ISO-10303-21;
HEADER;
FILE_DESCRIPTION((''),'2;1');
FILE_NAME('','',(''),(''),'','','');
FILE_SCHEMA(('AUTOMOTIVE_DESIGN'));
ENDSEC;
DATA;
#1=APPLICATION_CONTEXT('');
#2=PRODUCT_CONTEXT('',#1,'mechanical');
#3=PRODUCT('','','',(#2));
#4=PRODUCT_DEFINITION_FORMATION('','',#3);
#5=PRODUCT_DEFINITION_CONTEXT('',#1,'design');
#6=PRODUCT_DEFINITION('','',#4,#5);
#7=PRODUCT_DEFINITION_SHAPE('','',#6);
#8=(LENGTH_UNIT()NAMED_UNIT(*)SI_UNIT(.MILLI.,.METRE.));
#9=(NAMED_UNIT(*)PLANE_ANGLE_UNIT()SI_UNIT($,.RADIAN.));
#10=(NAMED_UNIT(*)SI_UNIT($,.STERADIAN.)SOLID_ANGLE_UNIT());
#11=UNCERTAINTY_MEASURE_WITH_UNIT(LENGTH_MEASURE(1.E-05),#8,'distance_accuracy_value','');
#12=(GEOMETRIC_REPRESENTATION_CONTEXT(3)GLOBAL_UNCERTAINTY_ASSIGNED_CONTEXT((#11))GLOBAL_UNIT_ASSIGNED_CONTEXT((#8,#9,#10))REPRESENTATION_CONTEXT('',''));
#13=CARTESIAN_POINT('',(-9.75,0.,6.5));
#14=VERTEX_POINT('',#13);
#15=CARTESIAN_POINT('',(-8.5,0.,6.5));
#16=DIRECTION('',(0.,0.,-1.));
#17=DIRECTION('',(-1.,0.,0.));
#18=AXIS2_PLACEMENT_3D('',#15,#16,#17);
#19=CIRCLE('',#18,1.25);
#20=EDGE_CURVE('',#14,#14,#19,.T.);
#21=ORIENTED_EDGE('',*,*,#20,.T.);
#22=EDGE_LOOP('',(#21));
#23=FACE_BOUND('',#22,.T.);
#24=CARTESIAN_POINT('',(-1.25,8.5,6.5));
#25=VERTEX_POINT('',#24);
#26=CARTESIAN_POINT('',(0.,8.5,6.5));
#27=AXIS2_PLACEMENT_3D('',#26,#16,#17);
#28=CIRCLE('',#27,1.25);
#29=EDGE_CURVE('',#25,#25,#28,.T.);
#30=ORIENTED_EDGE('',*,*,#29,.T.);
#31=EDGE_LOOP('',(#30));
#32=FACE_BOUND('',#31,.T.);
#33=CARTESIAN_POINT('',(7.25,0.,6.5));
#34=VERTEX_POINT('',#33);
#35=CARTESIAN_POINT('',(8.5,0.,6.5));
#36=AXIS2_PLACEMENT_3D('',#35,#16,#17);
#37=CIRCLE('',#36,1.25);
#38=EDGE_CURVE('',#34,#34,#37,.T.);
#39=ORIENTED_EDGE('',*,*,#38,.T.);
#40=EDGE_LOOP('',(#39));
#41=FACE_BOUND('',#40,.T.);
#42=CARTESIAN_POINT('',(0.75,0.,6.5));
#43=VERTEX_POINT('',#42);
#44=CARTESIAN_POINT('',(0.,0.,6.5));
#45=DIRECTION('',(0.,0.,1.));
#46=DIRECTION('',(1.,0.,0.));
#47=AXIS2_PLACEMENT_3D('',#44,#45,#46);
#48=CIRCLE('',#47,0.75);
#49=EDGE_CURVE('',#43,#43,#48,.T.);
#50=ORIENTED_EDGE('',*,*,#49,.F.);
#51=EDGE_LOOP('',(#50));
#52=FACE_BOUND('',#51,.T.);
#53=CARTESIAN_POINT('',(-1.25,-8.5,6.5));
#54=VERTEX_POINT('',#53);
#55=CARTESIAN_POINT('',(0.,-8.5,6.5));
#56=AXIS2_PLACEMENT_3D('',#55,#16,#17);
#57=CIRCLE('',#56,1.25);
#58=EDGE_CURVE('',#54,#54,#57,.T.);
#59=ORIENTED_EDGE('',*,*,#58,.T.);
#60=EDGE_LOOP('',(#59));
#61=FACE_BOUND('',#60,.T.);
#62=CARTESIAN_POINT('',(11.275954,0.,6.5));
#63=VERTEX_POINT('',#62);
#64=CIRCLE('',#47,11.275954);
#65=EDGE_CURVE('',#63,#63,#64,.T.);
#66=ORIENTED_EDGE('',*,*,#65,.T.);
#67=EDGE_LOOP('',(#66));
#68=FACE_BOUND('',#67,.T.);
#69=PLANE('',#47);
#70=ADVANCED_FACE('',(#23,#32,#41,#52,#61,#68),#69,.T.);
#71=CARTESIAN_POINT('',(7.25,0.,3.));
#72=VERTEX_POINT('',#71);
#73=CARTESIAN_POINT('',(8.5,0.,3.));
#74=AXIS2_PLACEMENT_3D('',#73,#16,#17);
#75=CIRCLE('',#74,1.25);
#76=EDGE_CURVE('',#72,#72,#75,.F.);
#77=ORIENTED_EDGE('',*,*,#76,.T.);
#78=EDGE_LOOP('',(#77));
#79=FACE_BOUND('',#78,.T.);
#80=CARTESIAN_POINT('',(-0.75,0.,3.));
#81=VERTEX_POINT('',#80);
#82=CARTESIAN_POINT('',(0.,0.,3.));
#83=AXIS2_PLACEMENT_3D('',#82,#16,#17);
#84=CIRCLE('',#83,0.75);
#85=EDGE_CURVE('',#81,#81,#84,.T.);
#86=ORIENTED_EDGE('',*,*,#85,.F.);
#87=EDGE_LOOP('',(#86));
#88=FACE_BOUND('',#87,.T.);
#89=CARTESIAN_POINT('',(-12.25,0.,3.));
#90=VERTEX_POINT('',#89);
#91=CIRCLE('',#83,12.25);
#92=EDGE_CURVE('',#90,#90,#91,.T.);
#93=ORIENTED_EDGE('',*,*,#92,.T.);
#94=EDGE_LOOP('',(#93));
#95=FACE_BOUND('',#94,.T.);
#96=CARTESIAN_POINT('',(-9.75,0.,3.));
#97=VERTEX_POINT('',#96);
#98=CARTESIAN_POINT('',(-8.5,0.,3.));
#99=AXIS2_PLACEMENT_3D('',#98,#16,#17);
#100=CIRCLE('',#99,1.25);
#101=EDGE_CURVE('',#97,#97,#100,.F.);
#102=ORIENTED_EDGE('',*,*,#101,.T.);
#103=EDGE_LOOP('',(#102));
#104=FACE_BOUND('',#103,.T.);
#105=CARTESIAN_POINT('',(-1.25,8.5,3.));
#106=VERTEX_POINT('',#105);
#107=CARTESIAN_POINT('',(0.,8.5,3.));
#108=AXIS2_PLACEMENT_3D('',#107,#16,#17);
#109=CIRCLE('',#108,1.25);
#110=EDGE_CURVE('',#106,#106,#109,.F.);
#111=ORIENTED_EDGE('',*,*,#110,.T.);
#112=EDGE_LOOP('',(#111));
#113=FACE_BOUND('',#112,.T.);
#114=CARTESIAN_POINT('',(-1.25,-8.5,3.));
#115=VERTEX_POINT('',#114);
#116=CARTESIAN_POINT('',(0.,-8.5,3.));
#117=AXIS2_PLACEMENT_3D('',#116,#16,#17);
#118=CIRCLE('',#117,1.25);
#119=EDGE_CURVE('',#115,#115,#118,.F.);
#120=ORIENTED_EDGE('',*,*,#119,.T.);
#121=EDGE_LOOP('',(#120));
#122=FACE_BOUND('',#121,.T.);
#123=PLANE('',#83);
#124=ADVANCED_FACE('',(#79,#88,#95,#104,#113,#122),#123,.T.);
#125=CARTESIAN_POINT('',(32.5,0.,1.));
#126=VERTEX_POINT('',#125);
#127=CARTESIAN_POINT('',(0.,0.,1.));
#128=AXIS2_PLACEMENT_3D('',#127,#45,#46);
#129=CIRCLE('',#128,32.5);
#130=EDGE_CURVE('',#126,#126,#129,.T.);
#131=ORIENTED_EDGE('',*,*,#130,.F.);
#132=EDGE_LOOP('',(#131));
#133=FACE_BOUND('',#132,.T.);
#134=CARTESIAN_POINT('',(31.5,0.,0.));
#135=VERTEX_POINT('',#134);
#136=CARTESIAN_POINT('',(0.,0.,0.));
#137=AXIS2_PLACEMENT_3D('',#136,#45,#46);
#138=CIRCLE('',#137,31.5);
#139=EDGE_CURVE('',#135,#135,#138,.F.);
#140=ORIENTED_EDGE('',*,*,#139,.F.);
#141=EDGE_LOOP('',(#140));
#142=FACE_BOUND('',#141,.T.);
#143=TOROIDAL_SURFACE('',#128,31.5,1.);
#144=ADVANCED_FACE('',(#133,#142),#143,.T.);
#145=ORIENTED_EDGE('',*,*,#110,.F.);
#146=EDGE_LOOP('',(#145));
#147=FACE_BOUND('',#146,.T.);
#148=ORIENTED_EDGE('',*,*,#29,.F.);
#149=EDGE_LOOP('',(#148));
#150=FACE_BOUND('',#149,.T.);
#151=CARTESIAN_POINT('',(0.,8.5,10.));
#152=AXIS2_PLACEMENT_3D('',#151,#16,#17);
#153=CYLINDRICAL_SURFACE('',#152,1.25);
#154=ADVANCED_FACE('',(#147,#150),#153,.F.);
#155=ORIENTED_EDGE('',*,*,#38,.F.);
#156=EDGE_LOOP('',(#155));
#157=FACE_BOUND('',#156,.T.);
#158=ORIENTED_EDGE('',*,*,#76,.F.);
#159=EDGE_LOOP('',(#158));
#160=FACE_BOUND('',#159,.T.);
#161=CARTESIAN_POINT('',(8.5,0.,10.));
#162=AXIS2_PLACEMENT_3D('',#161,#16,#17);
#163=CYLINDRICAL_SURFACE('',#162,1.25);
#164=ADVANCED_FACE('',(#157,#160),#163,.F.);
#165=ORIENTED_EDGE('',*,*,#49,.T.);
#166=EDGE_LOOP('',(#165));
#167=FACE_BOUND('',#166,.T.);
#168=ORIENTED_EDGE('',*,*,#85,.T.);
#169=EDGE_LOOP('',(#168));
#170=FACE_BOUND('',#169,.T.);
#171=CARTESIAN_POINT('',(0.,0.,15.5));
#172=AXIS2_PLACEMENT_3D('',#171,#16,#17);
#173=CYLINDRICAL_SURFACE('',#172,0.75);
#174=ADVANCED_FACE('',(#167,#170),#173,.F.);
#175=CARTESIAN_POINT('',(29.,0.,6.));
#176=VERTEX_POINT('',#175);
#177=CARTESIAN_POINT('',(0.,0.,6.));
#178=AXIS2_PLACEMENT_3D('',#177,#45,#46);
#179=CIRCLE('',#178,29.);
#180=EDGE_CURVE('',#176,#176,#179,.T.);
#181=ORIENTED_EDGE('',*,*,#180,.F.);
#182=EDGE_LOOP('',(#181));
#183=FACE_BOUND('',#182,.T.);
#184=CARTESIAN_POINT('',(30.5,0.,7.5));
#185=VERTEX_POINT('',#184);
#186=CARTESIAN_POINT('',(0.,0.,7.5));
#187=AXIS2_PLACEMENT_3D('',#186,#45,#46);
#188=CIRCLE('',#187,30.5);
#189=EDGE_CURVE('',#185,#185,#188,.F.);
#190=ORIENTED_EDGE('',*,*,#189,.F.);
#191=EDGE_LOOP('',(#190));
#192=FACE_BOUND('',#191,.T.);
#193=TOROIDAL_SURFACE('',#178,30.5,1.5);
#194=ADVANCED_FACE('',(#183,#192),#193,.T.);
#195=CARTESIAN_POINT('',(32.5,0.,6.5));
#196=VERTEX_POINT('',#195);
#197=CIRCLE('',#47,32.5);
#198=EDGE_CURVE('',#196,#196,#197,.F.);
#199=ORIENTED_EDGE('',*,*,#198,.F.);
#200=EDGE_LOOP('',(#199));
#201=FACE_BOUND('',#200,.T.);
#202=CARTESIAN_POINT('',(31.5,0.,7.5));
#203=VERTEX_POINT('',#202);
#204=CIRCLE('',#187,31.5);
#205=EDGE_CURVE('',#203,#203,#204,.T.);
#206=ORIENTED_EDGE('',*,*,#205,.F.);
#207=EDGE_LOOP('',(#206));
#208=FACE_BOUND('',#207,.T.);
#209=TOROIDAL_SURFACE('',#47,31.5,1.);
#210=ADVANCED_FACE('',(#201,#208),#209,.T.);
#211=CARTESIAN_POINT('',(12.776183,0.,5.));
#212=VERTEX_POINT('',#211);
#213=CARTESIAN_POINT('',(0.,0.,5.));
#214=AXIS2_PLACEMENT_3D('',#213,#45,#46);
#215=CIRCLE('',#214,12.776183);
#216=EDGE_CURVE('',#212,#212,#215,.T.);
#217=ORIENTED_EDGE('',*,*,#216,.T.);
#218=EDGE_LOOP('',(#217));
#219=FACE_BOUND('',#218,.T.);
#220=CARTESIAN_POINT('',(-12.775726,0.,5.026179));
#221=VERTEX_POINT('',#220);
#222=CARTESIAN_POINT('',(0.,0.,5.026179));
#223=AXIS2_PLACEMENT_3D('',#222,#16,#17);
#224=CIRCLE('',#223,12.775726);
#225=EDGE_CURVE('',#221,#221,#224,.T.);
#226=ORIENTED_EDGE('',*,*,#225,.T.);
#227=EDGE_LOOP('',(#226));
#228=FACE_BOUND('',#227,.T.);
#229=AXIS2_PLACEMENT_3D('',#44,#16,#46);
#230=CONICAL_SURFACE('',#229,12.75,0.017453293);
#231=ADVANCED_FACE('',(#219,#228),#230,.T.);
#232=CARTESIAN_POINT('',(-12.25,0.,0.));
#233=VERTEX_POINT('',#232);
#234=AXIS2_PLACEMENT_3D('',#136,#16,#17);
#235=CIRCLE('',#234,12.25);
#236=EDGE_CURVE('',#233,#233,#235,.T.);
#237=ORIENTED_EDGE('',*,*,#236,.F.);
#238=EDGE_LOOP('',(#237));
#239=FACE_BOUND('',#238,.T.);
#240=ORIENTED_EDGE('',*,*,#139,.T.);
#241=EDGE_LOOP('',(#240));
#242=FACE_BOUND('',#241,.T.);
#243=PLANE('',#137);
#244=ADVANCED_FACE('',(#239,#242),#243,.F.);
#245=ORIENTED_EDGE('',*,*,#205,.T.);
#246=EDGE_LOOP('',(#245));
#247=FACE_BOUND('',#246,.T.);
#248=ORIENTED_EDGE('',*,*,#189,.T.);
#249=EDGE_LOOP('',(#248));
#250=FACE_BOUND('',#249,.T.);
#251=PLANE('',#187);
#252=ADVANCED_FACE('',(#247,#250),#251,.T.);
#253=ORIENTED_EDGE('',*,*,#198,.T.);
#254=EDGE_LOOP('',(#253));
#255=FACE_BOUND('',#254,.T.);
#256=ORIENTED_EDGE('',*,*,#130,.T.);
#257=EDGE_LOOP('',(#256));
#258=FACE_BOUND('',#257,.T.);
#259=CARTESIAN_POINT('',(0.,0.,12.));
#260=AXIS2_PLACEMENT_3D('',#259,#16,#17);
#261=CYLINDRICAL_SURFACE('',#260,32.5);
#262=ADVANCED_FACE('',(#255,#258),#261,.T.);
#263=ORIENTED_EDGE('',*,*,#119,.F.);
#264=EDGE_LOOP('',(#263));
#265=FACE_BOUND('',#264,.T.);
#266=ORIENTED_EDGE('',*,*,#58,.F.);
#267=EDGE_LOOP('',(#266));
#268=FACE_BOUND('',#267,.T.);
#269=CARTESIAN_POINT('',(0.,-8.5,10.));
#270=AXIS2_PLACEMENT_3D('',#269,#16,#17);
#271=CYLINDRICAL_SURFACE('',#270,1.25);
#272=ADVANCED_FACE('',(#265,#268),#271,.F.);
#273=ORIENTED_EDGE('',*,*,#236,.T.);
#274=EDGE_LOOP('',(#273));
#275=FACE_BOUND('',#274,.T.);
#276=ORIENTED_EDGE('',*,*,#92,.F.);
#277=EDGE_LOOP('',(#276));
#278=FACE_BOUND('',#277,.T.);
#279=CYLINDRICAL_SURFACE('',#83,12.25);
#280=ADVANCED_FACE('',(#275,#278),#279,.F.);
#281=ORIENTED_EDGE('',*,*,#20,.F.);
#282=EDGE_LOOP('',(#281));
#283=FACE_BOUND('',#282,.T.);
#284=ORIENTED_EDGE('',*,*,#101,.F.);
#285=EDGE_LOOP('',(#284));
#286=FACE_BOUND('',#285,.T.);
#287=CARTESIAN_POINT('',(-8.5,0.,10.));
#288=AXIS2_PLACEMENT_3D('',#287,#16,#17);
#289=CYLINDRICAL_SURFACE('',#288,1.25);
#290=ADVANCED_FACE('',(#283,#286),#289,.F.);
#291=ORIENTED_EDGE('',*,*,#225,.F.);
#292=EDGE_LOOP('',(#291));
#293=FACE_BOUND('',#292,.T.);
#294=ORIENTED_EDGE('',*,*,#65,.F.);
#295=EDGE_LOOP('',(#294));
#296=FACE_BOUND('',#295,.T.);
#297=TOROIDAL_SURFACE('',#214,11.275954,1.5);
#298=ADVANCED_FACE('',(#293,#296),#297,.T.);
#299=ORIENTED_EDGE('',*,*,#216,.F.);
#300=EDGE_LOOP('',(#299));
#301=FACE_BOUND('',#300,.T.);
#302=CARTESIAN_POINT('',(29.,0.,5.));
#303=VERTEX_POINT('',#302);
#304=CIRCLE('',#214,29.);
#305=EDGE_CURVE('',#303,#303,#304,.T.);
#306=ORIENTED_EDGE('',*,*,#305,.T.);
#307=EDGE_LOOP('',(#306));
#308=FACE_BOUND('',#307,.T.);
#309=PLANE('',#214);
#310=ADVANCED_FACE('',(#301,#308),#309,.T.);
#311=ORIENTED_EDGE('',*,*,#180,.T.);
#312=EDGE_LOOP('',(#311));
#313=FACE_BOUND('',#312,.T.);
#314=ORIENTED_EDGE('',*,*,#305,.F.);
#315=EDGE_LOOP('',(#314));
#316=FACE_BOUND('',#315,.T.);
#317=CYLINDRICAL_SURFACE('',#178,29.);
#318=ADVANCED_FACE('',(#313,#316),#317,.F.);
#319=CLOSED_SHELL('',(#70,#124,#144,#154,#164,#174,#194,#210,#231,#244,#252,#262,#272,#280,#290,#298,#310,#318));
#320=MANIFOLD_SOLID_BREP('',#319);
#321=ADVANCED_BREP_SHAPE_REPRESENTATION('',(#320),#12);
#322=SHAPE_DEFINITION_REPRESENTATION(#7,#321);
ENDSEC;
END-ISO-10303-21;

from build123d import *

# Parameters (mm, degrees)
ESQUISSE1_R              = 32.5
BOSS_EXTRU_1_DEPTH       = 12
ESQUISSE2_R              = 65
ENL_V_MAT_EXTRU_1_DEPTH  = 3
ESQUISSE5_R              = 29
ENL_V_MAT_EXTRU_4_DEPTH  = 3
ESQUISSE6_R              = 1
ENL_V_MAT_EXTRU_6_DEPTH  = 32
ENL_V_MAT_EXTRU_7_DEPTH  = 32
ESQUISSE9_R              = 1.43
ENL_V_MAT_EXTRU_8_DEPTH  = 32
ESQUISSE11_R             = 2.429998502
ENL_V_MAT_EXTRU_9_DEPTH  = 3
CONG_7_R                 = 1
ESQUISSE14_R             = 29
ENL_V_MAT_EXTRU_10_DEPTH = 1
ESQUISSE16_R             = 39.398692539
ENL_V_MAT_EXTRU_12_DEPTH = 1.5
CONG_10_R                = 1.5
CONG_11_R                = 1
CONG_12_R                = 1
ENL_V_MAT_EXTRU_13_DEPTH = 10
ESQUISSE19_R             = 3.300449349
BOSS_EXTRU_2_DEPTH       = 5
ESQUISSE20_R             = 12.25
ENL_V_MAT_EXTRU_14_DEPTH = 3
ESQUISSE21_R             = 12.75
BOSS_EXTRU_3_DEPTH       = 1.5
D_POUILLE1_ANGLE         = 1
CONG_13_R                = 1.5
ESQUISSE22_R             = 1.25
ENL_V_MAT_EXTRU_15_DEPTH = 1.5
ESQUISSE23_R             = 0.75
ENL_V_MAT_EXTRU_16_DEPTH = 12.5


with BuildPart() as part:
    # Esquisse1 → Boss.-Extru.1 (new body)
    with BuildSketch(Plane.XY):
        Circle(ESQUISSE1_R)
    extrude(amount=BOSS_EXTRU_1_DEPTH)

    # Esquisse2 → Enlèv. mat.-Extru.1 (cut)
    with BuildSketch(Plane.XY.offset(12)):
        Circle(ESQUISSE2_R)
    extrude(amount=-ENL_V_MAT_EXTRU_1_DEPTH, mode=Mode.SUBTRACT)

    # Esquisse5 → Enlèv. mat.-Extru.4 (cut)
    with BuildSketch(Plane.XY.offset(9)):
        Circle(ESQUISSE5_R)
    extrude(amount=-ENL_V_MAT_EXTRU_4_DEPTH, mode=Mode.SUBTRACT)

    # Esquisse6 → Enlèv. mat.-Extru.6 (cut)
    with BuildSketch(Plane.XY.offset(6)):
        Circle(ESQUISSE6_R)
    extrude(amount=-ENL_V_MAT_EXTRU_6_DEPTH, mode=Mode.SUBTRACT)

    # Esquisse8 → Enlèv. mat.-Extru.7 (cut)
    with BuildSketch(Plane.XY.offset(6)):
        with BuildLine():
            Line((0.686378878, -0.603797194), (0.218015206, -0.444113134))
            Line((0.218015206, -0.444113134), (0.058394068, -0.912292249))
            Line((0.058394068, -0.912292249), (0.603363618, -2.021101765))
            ThreePointArc((0.603363618, -2.021101765), (1.078670728, -2.177389088), (1.224556135, -1.698786931))
            Line((1.224556135, -1.698786931), (0.686378878, -0.603797194))
        make_face()
        with BuildLine():
            Line((0.058394068, -0.912292249), (-0.159875378, -0.468195439))
            Line((-0.159875378, -0.468195439), (-0.603797194, -0.686378878))
            Line((-0.603797194, -0.686378878), (-1.002492257, -1.855777269))
            ThreePointArc((-1.002492257, -1.855777269), (-0.776911203, -2.302381976), (-0.335331812, -2.067115706))
            Line((-0.335331812, -2.067115706), (0.058394068, -0.912292249))
        make_face()
        with BuildLine():
            Line((-0.603797194, -0.686378878), (-0.444113134, -0.218015206))
            Line((-0.444113134, -0.218015206), (-0.912292249, -0.058394068))
            Line((-0.912292249, -0.058394068), (-2.021101765, -0.603363618))
            ThreePointArc((-2.021101765, -0.603363618), (-2.177389088, -1.078670728), (-1.698786931, -1.224556135))
            Line((-1.698786931, -1.224556135), (-0.603797194, -0.686378878))
        make_face()
        with BuildLine():
            Line((-0.912292249, -0.058394068), (-0.468195439, 0.159875378))
            Line((-0.468195439, 0.159875378), (-0.686378878, 0.603797194))
            Line((-0.686378878, 0.603797194), (-1.855777269, 1.002492257))
            ThreePointArc((-1.855777269, 1.002492257), (-2.302381976, 0.776911203), (-2.067115706, 0.335331812))
            Line((-2.067115706, 0.335331812), (-0.912292249, -0.058394068))
        make_face()
        with BuildLine():
            Line((-0.686378878, 0.603797194), (-0.218015206, 0.444113134))
            Line((-0.218015206, 0.444113134), (-0.058394068, 0.912292249))
            Line((-0.058394068, 0.912292249), (-0.603363618, 2.021101765))
            ThreePointArc((-0.603363618, 2.021101765), (-1.078670728, 2.177389088), (-1.224556135, 1.698786931))
            Line((-1.224556135, 1.698786931), (-0.686378878, 0.603797194))
        make_face()
        with BuildLine():
            Line((-0.058394068, 0.912292249), (0.159875378, 0.468195439))
            Line((0.159875378, 0.468195439), (0.603797194, 0.686378878))
            Line((0.603797194, 0.686378878), (1.002492257, 1.855777269))
            ThreePointArc((1.002492257, 1.855777269), (0.776911203, 2.302381976), (0.335331812, 2.067115706))
            Line((0.335331812, 2.067115706), (-0.058394068, 0.912292249))
        make_face()
        with BuildLine():
            Line((0.603797194, 0.686378878), (0.444113134, 0.218015206))
            Line((0.444113134, 0.218015206), (0.912292249, 0.058394068))
            Line((0.912292249, 0.058394068), (2.021101765, 0.603363618))
            ThreePointArc((2.021101765, 0.603363618), (2.177389088, 1.078670728), (1.698786931, 1.224556135))
            Line((1.698786931, 1.224556135), (0.603797194, 0.686378878))
        make_face()
        with BuildLine():
            Line((0.912292249, 0.058394068), (0.468195439, -0.159875378))
            Line((0.468195439, -0.159875378), (0.686378878, -0.603797194))
            Line((0.686378878, -0.603797194), (1.855777269, -1.002492257))
            ThreePointArc((1.855777269, -1.002492257), (2.302381976, -0.776911203), (2.067115706, -0.335331812))
            Line((2.067115706, -0.335331812), (0.912292249, 0.058394068))
        make_face()
    extrude(amount=-ENL_V_MAT_EXTRU_7_DEPTH, mode=Mode.SUBTRACT)

    # Esquisse9 → Enlèv. mat.-Extru.8 (cut)
    with BuildSketch(Plane(origin=(0, 0, 0), x_dir=(-1, 0, 0), z_dir=(0, 0, -1))):
        Circle(ESQUISSE9_R)
    extrude(amount=-ENL_V_MAT_EXTRU_8_DEPTH, mode=Mode.SUBTRACT)

    # Esquisse11 → Enlèv. mat.-Extru.9 (cut)
    with BuildSketch(Plane.XY.offset(6)):
        Circle(ESQUISSE11_R)
    extrude(amount=-ENL_V_MAT_EXTRU_9_DEPTH, mode=Mode.SUBTRACT)

    # Congé7
    cong_7_edges = [part.edges().sort_by_distance(p)[0] for p in [
        (2.425005219, 0.155699747, 6),
    ]]
    fillet(cong_7_edges, radius=CONG_7_R)

    # Esquisse14 → Enlèv. mat.-Extru.10 (cut)
    with BuildSketch(Plane.XY.offset(6)):
        Circle(ESQUISSE14_R)
    extrude(amount=-ENL_V_MAT_EXTRU_10_DEPTH, mode=Mode.SUBTRACT)

    # Esquisse16 → Enlèv. mat.-Extru.12 (cut)
    with BuildSketch(Plane.XY.offset(9)):
        Circle(ESQUISSE16_R)
    extrude(amount=-ENL_V_MAT_EXTRU_12_DEPTH, mode=Mode.SUBTRACT)

    # Congé10
    cong_10_edges = [part.edges().sort_by_distance(p)[0] for p in [
        (-29, 0, 7.5),
    ]]
    fillet(cong_10_edges, radius=CONG_10_R)

    # Congé11
    cong_11_edges = [part.edges().sort_by_distance(p)[0] for p in [
        (-32.5, 0, 7.5),
    ]]
    fillet(cong_11_edges, radius=CONG_11_R)

    # Congé12
    cong_12_edges = [part.edges().sort_by_distance(p)[0] for p in [
        (-32.5, 0, 0),
    ]]
    fillet(cong_12_edges, radius=CONG_12_R)

    # Esquisse18 → Enlèv. mat.-Extru.13 (cut)
    with BuildSketch(Plane(origin=(0, 0, 0), x_dir=(-1, 0, 0), z_dir=(0, 0, -1))):
        with BuildLine():
            ThreePointArc((-1.246616311, 8.408088235), (-0.850767387, 7.584197154), (0, 7.25))
            Line((0, 7.25), (0, 8.5))
            ThreePointArc((0, 8.5), (-0.625, 8.476990917), (-1.246616311, 8.408088235))
        make_face()
        with BuildLine():
            Line((0, 8.5), (0, 7.25))
            ThreePointArc((0, 7.25), (0.850767387, 7.584197154), (1.246616311, 8.408088235))
            ThreePointArc((1.246616311, 8.408088235), (0.625, 8.476990917), (0, 8.5))
        make_face()
        with BuildLine():
            ThreePointArc((-1.246616311, 8.408088235), (-0.625, 8.476990917), (0, 8.5))
            Line((0, 8.5), (0, 9.75))
            ThreePointArc((0, 9.75), (-0.915802846, 9.350767387), (-1.246616311, 8.408088235))
        make_face()
        with BuildLine():
            Line((0, 9.75), (0, 8.5))
            ThreePointArc((0, 8.5), (0.625, 8.476990917), (1.246616311, 8.408088235))
            ThreePointArc((1.246616311, 8.408088235), (1.249153791, 8.454012986), (1.25, 8.5))
            ThreePointArc((1.25, 8.5), (0.883883476, 9.383883476), (0, 9.75))
        make_face()
        with BuildLine():
            ThreePointArc((-8.408088235, -1.246616311), (-7.584197154, -0.850767387), (-7.25, 0))
            Line((-7.25, 0), (-8.5, 0))
            ThreePointArc((-8.5, 0), (-8.476990917, -0.625), (-8.408088235, -1.246616311))
        make_face()
        with BuildLine():
            Line((-8.5, 0), (-7.25, 0))
            ThreePointArc((-7.25, 0), (-7.584197154, 0.850767387), (-8.408088235, 1.246616311))
            ThreePointArc((-8.408088235, 1.246616311), (-8.476990917, 0.625), (-8.5, 0))
        make_face()
        with BuildLine():
            ThreePointArc((-8.408088235, -1.246616311), (-8.476990917, -0.625), (-8.5, 0))
            Line((-8.5, 0), (-9.75, 0))
            ThreePointArc((-9.75, 0), (-9.350767387, -0.915802846), (-8.408088235, -1.246616311))
        make_face()
        with BuildLine():
            Line((-9.75, 0), (-8.5, 0))
            ThreePointArc((-8.5, 0), (-8.476990917, 0.625), (-8.408088235, 1.246616311))
            ThreePointArc((-8.408088235, 1.246616311), (-9.350767387, 0.915802846), (-9.75, 0))
        make_face()
        with BuildLine():
            ThreePointArc((8.408088235, 1.246616311), (7.584197154, 0.850767387), (7.25, 0))
            Line((7.25, 0), (8.5, 0))
            ThreePointArc((8.5, 0), (8.476990917, 0.625), (8.408088235, 1.246616311))
        make_face()
        with BuildLine():
            Line((8.5, 0), (7.25, 0))
            ThreePointArc((7.25, 0), (7.584197154, -0.850767387), (8.408088235, -1.246616311))
            ThreePointArc((8.408088235, -1.246616311), (8.476990917, -0.625), (8.5, 0))
        make_face()
        with BuildLine():
            ThreePointArc((8.408088235, 1.246616311), (8.476990917, 0.625), (8.5, 0))
            Line((8.5, 0), (9.75, 0))
            ThreePointArc((9.75, 0), (9.350767387, 0.915802846), (8.408088235, 1.246616311))
        make_face()
        with BuildLine():
            Line((9.75, 0), (8.5, 0))
            ThreePointArc((8.5, 0), (8.476990917, -0.625), (8.408088235, -1.246616311))
            ThreePointArc((8.408088235, -1.246616311), (9.350767387, -0.915802846), (9.75, 0))
        make_face()
        with BuildLine():
            ThreePointArc((1.246616311, -8.408088235), (0.850767387, -7.584197154), (0, -7.25))
            Line((0, -7.25), (0, -8.5))
            ThreePointArc((0, -8.5), (0.625, -8.476990917), (1.246616311, -8.408088235))
        make_face()
        with BuildLine():
            Line((0, -8.5), (0, -7.25))
            ThreePointArc((0, -7.25), (-0.850767387, -7.584197154), (-1.246616311, -8.408088235))
            ThreePointArc((-1.246616311, -8.408088235), (-0.625, -8.476990917), (0, -8.5))
        make_face()
        with BuildLine():
            ThreePointArc((1.246616311, -8.408088235), (0.625, -8.476990917), (0, -8.5))
            Line((0, -8.5), (0, -9.75))
            ThreePointArc((0, -9.75), (0.883883476, -9.383883476), (1.25, -8.5))
            ThreePointArc((1.25, -8.5), (1.249153791, -8.454012986), (1.246616311, -8.408088235))
        make_face()
        with BuildLine():
            Line((0, -9.75), (0, -8.5))
            ThreePointArc((0, -8.5), (-0.625, -8.476990917), (-1.246616311, -8.408088235))
            ThreePointArc((-1.246616311, -8.408088235), (-0.915802846, -9.350767387), (0, -9.75))
        make_face()
    extrude(amount=-ENL_V_MAT_EXTRU_13_DEPTH, mode=Mode.SUBTRACT)

    # Esquisse19 → Boss.-Extru.2 (add)
    with BuildSketch(Plane(origin=(0, 0, 0), x_dir=(-1, 0, 0), z_dir=(0, 0, -1))):
        Circle(ESQUISSE19_R)
    extrude(amount=-BOSS_EXTRU_2_DEPTH)

    # Esquisse20 → Enlèv. mat.-Extru.14 (cut)
    with BuildSketch(Plane(origin=(0, 0, 0), x_dir=(-1, 0, 0), z_dir=(0, 0, -1))):
        Circle(ESQUISSE20_R)
    extrude(amount=-ENL_V_MAT_EXTRU_14_DEPTH, mode=Mode.SUBTRACT)

    # Esquisse21 → Boss.-Extru.3 (add)
    with BuildSketch(Plane.XY.offset(5)):
        Circle(ESQUISSE21_R)
    extrude(amount=BOSS_EXTRU_3_DEPTH)

    # Dépouille1
    d_pouille1_faces = [part.faces().sort_by_distance(p)[0] for p in [
        (-12.75, 0, 5.75),
    ]]
    draft(d_pouille1_faces, Plane.XY.offset(6.5), D_POUILLE1_ANGLE)

    # Congé13
    cong_13_edges = [part.edges().sort_by_distance(p)[0] for p in [
        (-12.75, 0, 6.5),
    ]]
    fillet(cong_13_edges, radius=CONG_13_R)

    # Esquisse22 → Enlèv. mat.-Extru.15 (cut)
    with BuildSketch(Plane(origin=(0, 0, 5), x_dir=(-1, 0, 0), z_dir=(0, 0, -1))):
        with Locations((0, 8.5)):
            Circle(ESQUISSE22_R)
        with Locations((-8.5, 0)):
            Circle(ESQUISSE22_R)
        with Locations((8.5, 0)):
            Circle(ESQUISSE22_R)
        with Locations((0, -8.5)):
            Circle(ESQUISSE22_R)
    extrude(amount=-ENL_V_MAT_EXTRU_15_DEPTH, mode=Mode.SUBTRACT)

    # Esquisse23 → Enlèv. mat.-Extru.16 (cut)
    with BuildSketch(Plane(origin=(0, 0, 3), x_dir=(-1, 0, 0), z_dir=(0, 0, -1))):
        Circle(ESQUISSE23_R)
    extrude(amount=-ENL_V_MAT_EXTRU_16_DEPTH, mode=Mode.SUBTRACT)


solid = part.part
